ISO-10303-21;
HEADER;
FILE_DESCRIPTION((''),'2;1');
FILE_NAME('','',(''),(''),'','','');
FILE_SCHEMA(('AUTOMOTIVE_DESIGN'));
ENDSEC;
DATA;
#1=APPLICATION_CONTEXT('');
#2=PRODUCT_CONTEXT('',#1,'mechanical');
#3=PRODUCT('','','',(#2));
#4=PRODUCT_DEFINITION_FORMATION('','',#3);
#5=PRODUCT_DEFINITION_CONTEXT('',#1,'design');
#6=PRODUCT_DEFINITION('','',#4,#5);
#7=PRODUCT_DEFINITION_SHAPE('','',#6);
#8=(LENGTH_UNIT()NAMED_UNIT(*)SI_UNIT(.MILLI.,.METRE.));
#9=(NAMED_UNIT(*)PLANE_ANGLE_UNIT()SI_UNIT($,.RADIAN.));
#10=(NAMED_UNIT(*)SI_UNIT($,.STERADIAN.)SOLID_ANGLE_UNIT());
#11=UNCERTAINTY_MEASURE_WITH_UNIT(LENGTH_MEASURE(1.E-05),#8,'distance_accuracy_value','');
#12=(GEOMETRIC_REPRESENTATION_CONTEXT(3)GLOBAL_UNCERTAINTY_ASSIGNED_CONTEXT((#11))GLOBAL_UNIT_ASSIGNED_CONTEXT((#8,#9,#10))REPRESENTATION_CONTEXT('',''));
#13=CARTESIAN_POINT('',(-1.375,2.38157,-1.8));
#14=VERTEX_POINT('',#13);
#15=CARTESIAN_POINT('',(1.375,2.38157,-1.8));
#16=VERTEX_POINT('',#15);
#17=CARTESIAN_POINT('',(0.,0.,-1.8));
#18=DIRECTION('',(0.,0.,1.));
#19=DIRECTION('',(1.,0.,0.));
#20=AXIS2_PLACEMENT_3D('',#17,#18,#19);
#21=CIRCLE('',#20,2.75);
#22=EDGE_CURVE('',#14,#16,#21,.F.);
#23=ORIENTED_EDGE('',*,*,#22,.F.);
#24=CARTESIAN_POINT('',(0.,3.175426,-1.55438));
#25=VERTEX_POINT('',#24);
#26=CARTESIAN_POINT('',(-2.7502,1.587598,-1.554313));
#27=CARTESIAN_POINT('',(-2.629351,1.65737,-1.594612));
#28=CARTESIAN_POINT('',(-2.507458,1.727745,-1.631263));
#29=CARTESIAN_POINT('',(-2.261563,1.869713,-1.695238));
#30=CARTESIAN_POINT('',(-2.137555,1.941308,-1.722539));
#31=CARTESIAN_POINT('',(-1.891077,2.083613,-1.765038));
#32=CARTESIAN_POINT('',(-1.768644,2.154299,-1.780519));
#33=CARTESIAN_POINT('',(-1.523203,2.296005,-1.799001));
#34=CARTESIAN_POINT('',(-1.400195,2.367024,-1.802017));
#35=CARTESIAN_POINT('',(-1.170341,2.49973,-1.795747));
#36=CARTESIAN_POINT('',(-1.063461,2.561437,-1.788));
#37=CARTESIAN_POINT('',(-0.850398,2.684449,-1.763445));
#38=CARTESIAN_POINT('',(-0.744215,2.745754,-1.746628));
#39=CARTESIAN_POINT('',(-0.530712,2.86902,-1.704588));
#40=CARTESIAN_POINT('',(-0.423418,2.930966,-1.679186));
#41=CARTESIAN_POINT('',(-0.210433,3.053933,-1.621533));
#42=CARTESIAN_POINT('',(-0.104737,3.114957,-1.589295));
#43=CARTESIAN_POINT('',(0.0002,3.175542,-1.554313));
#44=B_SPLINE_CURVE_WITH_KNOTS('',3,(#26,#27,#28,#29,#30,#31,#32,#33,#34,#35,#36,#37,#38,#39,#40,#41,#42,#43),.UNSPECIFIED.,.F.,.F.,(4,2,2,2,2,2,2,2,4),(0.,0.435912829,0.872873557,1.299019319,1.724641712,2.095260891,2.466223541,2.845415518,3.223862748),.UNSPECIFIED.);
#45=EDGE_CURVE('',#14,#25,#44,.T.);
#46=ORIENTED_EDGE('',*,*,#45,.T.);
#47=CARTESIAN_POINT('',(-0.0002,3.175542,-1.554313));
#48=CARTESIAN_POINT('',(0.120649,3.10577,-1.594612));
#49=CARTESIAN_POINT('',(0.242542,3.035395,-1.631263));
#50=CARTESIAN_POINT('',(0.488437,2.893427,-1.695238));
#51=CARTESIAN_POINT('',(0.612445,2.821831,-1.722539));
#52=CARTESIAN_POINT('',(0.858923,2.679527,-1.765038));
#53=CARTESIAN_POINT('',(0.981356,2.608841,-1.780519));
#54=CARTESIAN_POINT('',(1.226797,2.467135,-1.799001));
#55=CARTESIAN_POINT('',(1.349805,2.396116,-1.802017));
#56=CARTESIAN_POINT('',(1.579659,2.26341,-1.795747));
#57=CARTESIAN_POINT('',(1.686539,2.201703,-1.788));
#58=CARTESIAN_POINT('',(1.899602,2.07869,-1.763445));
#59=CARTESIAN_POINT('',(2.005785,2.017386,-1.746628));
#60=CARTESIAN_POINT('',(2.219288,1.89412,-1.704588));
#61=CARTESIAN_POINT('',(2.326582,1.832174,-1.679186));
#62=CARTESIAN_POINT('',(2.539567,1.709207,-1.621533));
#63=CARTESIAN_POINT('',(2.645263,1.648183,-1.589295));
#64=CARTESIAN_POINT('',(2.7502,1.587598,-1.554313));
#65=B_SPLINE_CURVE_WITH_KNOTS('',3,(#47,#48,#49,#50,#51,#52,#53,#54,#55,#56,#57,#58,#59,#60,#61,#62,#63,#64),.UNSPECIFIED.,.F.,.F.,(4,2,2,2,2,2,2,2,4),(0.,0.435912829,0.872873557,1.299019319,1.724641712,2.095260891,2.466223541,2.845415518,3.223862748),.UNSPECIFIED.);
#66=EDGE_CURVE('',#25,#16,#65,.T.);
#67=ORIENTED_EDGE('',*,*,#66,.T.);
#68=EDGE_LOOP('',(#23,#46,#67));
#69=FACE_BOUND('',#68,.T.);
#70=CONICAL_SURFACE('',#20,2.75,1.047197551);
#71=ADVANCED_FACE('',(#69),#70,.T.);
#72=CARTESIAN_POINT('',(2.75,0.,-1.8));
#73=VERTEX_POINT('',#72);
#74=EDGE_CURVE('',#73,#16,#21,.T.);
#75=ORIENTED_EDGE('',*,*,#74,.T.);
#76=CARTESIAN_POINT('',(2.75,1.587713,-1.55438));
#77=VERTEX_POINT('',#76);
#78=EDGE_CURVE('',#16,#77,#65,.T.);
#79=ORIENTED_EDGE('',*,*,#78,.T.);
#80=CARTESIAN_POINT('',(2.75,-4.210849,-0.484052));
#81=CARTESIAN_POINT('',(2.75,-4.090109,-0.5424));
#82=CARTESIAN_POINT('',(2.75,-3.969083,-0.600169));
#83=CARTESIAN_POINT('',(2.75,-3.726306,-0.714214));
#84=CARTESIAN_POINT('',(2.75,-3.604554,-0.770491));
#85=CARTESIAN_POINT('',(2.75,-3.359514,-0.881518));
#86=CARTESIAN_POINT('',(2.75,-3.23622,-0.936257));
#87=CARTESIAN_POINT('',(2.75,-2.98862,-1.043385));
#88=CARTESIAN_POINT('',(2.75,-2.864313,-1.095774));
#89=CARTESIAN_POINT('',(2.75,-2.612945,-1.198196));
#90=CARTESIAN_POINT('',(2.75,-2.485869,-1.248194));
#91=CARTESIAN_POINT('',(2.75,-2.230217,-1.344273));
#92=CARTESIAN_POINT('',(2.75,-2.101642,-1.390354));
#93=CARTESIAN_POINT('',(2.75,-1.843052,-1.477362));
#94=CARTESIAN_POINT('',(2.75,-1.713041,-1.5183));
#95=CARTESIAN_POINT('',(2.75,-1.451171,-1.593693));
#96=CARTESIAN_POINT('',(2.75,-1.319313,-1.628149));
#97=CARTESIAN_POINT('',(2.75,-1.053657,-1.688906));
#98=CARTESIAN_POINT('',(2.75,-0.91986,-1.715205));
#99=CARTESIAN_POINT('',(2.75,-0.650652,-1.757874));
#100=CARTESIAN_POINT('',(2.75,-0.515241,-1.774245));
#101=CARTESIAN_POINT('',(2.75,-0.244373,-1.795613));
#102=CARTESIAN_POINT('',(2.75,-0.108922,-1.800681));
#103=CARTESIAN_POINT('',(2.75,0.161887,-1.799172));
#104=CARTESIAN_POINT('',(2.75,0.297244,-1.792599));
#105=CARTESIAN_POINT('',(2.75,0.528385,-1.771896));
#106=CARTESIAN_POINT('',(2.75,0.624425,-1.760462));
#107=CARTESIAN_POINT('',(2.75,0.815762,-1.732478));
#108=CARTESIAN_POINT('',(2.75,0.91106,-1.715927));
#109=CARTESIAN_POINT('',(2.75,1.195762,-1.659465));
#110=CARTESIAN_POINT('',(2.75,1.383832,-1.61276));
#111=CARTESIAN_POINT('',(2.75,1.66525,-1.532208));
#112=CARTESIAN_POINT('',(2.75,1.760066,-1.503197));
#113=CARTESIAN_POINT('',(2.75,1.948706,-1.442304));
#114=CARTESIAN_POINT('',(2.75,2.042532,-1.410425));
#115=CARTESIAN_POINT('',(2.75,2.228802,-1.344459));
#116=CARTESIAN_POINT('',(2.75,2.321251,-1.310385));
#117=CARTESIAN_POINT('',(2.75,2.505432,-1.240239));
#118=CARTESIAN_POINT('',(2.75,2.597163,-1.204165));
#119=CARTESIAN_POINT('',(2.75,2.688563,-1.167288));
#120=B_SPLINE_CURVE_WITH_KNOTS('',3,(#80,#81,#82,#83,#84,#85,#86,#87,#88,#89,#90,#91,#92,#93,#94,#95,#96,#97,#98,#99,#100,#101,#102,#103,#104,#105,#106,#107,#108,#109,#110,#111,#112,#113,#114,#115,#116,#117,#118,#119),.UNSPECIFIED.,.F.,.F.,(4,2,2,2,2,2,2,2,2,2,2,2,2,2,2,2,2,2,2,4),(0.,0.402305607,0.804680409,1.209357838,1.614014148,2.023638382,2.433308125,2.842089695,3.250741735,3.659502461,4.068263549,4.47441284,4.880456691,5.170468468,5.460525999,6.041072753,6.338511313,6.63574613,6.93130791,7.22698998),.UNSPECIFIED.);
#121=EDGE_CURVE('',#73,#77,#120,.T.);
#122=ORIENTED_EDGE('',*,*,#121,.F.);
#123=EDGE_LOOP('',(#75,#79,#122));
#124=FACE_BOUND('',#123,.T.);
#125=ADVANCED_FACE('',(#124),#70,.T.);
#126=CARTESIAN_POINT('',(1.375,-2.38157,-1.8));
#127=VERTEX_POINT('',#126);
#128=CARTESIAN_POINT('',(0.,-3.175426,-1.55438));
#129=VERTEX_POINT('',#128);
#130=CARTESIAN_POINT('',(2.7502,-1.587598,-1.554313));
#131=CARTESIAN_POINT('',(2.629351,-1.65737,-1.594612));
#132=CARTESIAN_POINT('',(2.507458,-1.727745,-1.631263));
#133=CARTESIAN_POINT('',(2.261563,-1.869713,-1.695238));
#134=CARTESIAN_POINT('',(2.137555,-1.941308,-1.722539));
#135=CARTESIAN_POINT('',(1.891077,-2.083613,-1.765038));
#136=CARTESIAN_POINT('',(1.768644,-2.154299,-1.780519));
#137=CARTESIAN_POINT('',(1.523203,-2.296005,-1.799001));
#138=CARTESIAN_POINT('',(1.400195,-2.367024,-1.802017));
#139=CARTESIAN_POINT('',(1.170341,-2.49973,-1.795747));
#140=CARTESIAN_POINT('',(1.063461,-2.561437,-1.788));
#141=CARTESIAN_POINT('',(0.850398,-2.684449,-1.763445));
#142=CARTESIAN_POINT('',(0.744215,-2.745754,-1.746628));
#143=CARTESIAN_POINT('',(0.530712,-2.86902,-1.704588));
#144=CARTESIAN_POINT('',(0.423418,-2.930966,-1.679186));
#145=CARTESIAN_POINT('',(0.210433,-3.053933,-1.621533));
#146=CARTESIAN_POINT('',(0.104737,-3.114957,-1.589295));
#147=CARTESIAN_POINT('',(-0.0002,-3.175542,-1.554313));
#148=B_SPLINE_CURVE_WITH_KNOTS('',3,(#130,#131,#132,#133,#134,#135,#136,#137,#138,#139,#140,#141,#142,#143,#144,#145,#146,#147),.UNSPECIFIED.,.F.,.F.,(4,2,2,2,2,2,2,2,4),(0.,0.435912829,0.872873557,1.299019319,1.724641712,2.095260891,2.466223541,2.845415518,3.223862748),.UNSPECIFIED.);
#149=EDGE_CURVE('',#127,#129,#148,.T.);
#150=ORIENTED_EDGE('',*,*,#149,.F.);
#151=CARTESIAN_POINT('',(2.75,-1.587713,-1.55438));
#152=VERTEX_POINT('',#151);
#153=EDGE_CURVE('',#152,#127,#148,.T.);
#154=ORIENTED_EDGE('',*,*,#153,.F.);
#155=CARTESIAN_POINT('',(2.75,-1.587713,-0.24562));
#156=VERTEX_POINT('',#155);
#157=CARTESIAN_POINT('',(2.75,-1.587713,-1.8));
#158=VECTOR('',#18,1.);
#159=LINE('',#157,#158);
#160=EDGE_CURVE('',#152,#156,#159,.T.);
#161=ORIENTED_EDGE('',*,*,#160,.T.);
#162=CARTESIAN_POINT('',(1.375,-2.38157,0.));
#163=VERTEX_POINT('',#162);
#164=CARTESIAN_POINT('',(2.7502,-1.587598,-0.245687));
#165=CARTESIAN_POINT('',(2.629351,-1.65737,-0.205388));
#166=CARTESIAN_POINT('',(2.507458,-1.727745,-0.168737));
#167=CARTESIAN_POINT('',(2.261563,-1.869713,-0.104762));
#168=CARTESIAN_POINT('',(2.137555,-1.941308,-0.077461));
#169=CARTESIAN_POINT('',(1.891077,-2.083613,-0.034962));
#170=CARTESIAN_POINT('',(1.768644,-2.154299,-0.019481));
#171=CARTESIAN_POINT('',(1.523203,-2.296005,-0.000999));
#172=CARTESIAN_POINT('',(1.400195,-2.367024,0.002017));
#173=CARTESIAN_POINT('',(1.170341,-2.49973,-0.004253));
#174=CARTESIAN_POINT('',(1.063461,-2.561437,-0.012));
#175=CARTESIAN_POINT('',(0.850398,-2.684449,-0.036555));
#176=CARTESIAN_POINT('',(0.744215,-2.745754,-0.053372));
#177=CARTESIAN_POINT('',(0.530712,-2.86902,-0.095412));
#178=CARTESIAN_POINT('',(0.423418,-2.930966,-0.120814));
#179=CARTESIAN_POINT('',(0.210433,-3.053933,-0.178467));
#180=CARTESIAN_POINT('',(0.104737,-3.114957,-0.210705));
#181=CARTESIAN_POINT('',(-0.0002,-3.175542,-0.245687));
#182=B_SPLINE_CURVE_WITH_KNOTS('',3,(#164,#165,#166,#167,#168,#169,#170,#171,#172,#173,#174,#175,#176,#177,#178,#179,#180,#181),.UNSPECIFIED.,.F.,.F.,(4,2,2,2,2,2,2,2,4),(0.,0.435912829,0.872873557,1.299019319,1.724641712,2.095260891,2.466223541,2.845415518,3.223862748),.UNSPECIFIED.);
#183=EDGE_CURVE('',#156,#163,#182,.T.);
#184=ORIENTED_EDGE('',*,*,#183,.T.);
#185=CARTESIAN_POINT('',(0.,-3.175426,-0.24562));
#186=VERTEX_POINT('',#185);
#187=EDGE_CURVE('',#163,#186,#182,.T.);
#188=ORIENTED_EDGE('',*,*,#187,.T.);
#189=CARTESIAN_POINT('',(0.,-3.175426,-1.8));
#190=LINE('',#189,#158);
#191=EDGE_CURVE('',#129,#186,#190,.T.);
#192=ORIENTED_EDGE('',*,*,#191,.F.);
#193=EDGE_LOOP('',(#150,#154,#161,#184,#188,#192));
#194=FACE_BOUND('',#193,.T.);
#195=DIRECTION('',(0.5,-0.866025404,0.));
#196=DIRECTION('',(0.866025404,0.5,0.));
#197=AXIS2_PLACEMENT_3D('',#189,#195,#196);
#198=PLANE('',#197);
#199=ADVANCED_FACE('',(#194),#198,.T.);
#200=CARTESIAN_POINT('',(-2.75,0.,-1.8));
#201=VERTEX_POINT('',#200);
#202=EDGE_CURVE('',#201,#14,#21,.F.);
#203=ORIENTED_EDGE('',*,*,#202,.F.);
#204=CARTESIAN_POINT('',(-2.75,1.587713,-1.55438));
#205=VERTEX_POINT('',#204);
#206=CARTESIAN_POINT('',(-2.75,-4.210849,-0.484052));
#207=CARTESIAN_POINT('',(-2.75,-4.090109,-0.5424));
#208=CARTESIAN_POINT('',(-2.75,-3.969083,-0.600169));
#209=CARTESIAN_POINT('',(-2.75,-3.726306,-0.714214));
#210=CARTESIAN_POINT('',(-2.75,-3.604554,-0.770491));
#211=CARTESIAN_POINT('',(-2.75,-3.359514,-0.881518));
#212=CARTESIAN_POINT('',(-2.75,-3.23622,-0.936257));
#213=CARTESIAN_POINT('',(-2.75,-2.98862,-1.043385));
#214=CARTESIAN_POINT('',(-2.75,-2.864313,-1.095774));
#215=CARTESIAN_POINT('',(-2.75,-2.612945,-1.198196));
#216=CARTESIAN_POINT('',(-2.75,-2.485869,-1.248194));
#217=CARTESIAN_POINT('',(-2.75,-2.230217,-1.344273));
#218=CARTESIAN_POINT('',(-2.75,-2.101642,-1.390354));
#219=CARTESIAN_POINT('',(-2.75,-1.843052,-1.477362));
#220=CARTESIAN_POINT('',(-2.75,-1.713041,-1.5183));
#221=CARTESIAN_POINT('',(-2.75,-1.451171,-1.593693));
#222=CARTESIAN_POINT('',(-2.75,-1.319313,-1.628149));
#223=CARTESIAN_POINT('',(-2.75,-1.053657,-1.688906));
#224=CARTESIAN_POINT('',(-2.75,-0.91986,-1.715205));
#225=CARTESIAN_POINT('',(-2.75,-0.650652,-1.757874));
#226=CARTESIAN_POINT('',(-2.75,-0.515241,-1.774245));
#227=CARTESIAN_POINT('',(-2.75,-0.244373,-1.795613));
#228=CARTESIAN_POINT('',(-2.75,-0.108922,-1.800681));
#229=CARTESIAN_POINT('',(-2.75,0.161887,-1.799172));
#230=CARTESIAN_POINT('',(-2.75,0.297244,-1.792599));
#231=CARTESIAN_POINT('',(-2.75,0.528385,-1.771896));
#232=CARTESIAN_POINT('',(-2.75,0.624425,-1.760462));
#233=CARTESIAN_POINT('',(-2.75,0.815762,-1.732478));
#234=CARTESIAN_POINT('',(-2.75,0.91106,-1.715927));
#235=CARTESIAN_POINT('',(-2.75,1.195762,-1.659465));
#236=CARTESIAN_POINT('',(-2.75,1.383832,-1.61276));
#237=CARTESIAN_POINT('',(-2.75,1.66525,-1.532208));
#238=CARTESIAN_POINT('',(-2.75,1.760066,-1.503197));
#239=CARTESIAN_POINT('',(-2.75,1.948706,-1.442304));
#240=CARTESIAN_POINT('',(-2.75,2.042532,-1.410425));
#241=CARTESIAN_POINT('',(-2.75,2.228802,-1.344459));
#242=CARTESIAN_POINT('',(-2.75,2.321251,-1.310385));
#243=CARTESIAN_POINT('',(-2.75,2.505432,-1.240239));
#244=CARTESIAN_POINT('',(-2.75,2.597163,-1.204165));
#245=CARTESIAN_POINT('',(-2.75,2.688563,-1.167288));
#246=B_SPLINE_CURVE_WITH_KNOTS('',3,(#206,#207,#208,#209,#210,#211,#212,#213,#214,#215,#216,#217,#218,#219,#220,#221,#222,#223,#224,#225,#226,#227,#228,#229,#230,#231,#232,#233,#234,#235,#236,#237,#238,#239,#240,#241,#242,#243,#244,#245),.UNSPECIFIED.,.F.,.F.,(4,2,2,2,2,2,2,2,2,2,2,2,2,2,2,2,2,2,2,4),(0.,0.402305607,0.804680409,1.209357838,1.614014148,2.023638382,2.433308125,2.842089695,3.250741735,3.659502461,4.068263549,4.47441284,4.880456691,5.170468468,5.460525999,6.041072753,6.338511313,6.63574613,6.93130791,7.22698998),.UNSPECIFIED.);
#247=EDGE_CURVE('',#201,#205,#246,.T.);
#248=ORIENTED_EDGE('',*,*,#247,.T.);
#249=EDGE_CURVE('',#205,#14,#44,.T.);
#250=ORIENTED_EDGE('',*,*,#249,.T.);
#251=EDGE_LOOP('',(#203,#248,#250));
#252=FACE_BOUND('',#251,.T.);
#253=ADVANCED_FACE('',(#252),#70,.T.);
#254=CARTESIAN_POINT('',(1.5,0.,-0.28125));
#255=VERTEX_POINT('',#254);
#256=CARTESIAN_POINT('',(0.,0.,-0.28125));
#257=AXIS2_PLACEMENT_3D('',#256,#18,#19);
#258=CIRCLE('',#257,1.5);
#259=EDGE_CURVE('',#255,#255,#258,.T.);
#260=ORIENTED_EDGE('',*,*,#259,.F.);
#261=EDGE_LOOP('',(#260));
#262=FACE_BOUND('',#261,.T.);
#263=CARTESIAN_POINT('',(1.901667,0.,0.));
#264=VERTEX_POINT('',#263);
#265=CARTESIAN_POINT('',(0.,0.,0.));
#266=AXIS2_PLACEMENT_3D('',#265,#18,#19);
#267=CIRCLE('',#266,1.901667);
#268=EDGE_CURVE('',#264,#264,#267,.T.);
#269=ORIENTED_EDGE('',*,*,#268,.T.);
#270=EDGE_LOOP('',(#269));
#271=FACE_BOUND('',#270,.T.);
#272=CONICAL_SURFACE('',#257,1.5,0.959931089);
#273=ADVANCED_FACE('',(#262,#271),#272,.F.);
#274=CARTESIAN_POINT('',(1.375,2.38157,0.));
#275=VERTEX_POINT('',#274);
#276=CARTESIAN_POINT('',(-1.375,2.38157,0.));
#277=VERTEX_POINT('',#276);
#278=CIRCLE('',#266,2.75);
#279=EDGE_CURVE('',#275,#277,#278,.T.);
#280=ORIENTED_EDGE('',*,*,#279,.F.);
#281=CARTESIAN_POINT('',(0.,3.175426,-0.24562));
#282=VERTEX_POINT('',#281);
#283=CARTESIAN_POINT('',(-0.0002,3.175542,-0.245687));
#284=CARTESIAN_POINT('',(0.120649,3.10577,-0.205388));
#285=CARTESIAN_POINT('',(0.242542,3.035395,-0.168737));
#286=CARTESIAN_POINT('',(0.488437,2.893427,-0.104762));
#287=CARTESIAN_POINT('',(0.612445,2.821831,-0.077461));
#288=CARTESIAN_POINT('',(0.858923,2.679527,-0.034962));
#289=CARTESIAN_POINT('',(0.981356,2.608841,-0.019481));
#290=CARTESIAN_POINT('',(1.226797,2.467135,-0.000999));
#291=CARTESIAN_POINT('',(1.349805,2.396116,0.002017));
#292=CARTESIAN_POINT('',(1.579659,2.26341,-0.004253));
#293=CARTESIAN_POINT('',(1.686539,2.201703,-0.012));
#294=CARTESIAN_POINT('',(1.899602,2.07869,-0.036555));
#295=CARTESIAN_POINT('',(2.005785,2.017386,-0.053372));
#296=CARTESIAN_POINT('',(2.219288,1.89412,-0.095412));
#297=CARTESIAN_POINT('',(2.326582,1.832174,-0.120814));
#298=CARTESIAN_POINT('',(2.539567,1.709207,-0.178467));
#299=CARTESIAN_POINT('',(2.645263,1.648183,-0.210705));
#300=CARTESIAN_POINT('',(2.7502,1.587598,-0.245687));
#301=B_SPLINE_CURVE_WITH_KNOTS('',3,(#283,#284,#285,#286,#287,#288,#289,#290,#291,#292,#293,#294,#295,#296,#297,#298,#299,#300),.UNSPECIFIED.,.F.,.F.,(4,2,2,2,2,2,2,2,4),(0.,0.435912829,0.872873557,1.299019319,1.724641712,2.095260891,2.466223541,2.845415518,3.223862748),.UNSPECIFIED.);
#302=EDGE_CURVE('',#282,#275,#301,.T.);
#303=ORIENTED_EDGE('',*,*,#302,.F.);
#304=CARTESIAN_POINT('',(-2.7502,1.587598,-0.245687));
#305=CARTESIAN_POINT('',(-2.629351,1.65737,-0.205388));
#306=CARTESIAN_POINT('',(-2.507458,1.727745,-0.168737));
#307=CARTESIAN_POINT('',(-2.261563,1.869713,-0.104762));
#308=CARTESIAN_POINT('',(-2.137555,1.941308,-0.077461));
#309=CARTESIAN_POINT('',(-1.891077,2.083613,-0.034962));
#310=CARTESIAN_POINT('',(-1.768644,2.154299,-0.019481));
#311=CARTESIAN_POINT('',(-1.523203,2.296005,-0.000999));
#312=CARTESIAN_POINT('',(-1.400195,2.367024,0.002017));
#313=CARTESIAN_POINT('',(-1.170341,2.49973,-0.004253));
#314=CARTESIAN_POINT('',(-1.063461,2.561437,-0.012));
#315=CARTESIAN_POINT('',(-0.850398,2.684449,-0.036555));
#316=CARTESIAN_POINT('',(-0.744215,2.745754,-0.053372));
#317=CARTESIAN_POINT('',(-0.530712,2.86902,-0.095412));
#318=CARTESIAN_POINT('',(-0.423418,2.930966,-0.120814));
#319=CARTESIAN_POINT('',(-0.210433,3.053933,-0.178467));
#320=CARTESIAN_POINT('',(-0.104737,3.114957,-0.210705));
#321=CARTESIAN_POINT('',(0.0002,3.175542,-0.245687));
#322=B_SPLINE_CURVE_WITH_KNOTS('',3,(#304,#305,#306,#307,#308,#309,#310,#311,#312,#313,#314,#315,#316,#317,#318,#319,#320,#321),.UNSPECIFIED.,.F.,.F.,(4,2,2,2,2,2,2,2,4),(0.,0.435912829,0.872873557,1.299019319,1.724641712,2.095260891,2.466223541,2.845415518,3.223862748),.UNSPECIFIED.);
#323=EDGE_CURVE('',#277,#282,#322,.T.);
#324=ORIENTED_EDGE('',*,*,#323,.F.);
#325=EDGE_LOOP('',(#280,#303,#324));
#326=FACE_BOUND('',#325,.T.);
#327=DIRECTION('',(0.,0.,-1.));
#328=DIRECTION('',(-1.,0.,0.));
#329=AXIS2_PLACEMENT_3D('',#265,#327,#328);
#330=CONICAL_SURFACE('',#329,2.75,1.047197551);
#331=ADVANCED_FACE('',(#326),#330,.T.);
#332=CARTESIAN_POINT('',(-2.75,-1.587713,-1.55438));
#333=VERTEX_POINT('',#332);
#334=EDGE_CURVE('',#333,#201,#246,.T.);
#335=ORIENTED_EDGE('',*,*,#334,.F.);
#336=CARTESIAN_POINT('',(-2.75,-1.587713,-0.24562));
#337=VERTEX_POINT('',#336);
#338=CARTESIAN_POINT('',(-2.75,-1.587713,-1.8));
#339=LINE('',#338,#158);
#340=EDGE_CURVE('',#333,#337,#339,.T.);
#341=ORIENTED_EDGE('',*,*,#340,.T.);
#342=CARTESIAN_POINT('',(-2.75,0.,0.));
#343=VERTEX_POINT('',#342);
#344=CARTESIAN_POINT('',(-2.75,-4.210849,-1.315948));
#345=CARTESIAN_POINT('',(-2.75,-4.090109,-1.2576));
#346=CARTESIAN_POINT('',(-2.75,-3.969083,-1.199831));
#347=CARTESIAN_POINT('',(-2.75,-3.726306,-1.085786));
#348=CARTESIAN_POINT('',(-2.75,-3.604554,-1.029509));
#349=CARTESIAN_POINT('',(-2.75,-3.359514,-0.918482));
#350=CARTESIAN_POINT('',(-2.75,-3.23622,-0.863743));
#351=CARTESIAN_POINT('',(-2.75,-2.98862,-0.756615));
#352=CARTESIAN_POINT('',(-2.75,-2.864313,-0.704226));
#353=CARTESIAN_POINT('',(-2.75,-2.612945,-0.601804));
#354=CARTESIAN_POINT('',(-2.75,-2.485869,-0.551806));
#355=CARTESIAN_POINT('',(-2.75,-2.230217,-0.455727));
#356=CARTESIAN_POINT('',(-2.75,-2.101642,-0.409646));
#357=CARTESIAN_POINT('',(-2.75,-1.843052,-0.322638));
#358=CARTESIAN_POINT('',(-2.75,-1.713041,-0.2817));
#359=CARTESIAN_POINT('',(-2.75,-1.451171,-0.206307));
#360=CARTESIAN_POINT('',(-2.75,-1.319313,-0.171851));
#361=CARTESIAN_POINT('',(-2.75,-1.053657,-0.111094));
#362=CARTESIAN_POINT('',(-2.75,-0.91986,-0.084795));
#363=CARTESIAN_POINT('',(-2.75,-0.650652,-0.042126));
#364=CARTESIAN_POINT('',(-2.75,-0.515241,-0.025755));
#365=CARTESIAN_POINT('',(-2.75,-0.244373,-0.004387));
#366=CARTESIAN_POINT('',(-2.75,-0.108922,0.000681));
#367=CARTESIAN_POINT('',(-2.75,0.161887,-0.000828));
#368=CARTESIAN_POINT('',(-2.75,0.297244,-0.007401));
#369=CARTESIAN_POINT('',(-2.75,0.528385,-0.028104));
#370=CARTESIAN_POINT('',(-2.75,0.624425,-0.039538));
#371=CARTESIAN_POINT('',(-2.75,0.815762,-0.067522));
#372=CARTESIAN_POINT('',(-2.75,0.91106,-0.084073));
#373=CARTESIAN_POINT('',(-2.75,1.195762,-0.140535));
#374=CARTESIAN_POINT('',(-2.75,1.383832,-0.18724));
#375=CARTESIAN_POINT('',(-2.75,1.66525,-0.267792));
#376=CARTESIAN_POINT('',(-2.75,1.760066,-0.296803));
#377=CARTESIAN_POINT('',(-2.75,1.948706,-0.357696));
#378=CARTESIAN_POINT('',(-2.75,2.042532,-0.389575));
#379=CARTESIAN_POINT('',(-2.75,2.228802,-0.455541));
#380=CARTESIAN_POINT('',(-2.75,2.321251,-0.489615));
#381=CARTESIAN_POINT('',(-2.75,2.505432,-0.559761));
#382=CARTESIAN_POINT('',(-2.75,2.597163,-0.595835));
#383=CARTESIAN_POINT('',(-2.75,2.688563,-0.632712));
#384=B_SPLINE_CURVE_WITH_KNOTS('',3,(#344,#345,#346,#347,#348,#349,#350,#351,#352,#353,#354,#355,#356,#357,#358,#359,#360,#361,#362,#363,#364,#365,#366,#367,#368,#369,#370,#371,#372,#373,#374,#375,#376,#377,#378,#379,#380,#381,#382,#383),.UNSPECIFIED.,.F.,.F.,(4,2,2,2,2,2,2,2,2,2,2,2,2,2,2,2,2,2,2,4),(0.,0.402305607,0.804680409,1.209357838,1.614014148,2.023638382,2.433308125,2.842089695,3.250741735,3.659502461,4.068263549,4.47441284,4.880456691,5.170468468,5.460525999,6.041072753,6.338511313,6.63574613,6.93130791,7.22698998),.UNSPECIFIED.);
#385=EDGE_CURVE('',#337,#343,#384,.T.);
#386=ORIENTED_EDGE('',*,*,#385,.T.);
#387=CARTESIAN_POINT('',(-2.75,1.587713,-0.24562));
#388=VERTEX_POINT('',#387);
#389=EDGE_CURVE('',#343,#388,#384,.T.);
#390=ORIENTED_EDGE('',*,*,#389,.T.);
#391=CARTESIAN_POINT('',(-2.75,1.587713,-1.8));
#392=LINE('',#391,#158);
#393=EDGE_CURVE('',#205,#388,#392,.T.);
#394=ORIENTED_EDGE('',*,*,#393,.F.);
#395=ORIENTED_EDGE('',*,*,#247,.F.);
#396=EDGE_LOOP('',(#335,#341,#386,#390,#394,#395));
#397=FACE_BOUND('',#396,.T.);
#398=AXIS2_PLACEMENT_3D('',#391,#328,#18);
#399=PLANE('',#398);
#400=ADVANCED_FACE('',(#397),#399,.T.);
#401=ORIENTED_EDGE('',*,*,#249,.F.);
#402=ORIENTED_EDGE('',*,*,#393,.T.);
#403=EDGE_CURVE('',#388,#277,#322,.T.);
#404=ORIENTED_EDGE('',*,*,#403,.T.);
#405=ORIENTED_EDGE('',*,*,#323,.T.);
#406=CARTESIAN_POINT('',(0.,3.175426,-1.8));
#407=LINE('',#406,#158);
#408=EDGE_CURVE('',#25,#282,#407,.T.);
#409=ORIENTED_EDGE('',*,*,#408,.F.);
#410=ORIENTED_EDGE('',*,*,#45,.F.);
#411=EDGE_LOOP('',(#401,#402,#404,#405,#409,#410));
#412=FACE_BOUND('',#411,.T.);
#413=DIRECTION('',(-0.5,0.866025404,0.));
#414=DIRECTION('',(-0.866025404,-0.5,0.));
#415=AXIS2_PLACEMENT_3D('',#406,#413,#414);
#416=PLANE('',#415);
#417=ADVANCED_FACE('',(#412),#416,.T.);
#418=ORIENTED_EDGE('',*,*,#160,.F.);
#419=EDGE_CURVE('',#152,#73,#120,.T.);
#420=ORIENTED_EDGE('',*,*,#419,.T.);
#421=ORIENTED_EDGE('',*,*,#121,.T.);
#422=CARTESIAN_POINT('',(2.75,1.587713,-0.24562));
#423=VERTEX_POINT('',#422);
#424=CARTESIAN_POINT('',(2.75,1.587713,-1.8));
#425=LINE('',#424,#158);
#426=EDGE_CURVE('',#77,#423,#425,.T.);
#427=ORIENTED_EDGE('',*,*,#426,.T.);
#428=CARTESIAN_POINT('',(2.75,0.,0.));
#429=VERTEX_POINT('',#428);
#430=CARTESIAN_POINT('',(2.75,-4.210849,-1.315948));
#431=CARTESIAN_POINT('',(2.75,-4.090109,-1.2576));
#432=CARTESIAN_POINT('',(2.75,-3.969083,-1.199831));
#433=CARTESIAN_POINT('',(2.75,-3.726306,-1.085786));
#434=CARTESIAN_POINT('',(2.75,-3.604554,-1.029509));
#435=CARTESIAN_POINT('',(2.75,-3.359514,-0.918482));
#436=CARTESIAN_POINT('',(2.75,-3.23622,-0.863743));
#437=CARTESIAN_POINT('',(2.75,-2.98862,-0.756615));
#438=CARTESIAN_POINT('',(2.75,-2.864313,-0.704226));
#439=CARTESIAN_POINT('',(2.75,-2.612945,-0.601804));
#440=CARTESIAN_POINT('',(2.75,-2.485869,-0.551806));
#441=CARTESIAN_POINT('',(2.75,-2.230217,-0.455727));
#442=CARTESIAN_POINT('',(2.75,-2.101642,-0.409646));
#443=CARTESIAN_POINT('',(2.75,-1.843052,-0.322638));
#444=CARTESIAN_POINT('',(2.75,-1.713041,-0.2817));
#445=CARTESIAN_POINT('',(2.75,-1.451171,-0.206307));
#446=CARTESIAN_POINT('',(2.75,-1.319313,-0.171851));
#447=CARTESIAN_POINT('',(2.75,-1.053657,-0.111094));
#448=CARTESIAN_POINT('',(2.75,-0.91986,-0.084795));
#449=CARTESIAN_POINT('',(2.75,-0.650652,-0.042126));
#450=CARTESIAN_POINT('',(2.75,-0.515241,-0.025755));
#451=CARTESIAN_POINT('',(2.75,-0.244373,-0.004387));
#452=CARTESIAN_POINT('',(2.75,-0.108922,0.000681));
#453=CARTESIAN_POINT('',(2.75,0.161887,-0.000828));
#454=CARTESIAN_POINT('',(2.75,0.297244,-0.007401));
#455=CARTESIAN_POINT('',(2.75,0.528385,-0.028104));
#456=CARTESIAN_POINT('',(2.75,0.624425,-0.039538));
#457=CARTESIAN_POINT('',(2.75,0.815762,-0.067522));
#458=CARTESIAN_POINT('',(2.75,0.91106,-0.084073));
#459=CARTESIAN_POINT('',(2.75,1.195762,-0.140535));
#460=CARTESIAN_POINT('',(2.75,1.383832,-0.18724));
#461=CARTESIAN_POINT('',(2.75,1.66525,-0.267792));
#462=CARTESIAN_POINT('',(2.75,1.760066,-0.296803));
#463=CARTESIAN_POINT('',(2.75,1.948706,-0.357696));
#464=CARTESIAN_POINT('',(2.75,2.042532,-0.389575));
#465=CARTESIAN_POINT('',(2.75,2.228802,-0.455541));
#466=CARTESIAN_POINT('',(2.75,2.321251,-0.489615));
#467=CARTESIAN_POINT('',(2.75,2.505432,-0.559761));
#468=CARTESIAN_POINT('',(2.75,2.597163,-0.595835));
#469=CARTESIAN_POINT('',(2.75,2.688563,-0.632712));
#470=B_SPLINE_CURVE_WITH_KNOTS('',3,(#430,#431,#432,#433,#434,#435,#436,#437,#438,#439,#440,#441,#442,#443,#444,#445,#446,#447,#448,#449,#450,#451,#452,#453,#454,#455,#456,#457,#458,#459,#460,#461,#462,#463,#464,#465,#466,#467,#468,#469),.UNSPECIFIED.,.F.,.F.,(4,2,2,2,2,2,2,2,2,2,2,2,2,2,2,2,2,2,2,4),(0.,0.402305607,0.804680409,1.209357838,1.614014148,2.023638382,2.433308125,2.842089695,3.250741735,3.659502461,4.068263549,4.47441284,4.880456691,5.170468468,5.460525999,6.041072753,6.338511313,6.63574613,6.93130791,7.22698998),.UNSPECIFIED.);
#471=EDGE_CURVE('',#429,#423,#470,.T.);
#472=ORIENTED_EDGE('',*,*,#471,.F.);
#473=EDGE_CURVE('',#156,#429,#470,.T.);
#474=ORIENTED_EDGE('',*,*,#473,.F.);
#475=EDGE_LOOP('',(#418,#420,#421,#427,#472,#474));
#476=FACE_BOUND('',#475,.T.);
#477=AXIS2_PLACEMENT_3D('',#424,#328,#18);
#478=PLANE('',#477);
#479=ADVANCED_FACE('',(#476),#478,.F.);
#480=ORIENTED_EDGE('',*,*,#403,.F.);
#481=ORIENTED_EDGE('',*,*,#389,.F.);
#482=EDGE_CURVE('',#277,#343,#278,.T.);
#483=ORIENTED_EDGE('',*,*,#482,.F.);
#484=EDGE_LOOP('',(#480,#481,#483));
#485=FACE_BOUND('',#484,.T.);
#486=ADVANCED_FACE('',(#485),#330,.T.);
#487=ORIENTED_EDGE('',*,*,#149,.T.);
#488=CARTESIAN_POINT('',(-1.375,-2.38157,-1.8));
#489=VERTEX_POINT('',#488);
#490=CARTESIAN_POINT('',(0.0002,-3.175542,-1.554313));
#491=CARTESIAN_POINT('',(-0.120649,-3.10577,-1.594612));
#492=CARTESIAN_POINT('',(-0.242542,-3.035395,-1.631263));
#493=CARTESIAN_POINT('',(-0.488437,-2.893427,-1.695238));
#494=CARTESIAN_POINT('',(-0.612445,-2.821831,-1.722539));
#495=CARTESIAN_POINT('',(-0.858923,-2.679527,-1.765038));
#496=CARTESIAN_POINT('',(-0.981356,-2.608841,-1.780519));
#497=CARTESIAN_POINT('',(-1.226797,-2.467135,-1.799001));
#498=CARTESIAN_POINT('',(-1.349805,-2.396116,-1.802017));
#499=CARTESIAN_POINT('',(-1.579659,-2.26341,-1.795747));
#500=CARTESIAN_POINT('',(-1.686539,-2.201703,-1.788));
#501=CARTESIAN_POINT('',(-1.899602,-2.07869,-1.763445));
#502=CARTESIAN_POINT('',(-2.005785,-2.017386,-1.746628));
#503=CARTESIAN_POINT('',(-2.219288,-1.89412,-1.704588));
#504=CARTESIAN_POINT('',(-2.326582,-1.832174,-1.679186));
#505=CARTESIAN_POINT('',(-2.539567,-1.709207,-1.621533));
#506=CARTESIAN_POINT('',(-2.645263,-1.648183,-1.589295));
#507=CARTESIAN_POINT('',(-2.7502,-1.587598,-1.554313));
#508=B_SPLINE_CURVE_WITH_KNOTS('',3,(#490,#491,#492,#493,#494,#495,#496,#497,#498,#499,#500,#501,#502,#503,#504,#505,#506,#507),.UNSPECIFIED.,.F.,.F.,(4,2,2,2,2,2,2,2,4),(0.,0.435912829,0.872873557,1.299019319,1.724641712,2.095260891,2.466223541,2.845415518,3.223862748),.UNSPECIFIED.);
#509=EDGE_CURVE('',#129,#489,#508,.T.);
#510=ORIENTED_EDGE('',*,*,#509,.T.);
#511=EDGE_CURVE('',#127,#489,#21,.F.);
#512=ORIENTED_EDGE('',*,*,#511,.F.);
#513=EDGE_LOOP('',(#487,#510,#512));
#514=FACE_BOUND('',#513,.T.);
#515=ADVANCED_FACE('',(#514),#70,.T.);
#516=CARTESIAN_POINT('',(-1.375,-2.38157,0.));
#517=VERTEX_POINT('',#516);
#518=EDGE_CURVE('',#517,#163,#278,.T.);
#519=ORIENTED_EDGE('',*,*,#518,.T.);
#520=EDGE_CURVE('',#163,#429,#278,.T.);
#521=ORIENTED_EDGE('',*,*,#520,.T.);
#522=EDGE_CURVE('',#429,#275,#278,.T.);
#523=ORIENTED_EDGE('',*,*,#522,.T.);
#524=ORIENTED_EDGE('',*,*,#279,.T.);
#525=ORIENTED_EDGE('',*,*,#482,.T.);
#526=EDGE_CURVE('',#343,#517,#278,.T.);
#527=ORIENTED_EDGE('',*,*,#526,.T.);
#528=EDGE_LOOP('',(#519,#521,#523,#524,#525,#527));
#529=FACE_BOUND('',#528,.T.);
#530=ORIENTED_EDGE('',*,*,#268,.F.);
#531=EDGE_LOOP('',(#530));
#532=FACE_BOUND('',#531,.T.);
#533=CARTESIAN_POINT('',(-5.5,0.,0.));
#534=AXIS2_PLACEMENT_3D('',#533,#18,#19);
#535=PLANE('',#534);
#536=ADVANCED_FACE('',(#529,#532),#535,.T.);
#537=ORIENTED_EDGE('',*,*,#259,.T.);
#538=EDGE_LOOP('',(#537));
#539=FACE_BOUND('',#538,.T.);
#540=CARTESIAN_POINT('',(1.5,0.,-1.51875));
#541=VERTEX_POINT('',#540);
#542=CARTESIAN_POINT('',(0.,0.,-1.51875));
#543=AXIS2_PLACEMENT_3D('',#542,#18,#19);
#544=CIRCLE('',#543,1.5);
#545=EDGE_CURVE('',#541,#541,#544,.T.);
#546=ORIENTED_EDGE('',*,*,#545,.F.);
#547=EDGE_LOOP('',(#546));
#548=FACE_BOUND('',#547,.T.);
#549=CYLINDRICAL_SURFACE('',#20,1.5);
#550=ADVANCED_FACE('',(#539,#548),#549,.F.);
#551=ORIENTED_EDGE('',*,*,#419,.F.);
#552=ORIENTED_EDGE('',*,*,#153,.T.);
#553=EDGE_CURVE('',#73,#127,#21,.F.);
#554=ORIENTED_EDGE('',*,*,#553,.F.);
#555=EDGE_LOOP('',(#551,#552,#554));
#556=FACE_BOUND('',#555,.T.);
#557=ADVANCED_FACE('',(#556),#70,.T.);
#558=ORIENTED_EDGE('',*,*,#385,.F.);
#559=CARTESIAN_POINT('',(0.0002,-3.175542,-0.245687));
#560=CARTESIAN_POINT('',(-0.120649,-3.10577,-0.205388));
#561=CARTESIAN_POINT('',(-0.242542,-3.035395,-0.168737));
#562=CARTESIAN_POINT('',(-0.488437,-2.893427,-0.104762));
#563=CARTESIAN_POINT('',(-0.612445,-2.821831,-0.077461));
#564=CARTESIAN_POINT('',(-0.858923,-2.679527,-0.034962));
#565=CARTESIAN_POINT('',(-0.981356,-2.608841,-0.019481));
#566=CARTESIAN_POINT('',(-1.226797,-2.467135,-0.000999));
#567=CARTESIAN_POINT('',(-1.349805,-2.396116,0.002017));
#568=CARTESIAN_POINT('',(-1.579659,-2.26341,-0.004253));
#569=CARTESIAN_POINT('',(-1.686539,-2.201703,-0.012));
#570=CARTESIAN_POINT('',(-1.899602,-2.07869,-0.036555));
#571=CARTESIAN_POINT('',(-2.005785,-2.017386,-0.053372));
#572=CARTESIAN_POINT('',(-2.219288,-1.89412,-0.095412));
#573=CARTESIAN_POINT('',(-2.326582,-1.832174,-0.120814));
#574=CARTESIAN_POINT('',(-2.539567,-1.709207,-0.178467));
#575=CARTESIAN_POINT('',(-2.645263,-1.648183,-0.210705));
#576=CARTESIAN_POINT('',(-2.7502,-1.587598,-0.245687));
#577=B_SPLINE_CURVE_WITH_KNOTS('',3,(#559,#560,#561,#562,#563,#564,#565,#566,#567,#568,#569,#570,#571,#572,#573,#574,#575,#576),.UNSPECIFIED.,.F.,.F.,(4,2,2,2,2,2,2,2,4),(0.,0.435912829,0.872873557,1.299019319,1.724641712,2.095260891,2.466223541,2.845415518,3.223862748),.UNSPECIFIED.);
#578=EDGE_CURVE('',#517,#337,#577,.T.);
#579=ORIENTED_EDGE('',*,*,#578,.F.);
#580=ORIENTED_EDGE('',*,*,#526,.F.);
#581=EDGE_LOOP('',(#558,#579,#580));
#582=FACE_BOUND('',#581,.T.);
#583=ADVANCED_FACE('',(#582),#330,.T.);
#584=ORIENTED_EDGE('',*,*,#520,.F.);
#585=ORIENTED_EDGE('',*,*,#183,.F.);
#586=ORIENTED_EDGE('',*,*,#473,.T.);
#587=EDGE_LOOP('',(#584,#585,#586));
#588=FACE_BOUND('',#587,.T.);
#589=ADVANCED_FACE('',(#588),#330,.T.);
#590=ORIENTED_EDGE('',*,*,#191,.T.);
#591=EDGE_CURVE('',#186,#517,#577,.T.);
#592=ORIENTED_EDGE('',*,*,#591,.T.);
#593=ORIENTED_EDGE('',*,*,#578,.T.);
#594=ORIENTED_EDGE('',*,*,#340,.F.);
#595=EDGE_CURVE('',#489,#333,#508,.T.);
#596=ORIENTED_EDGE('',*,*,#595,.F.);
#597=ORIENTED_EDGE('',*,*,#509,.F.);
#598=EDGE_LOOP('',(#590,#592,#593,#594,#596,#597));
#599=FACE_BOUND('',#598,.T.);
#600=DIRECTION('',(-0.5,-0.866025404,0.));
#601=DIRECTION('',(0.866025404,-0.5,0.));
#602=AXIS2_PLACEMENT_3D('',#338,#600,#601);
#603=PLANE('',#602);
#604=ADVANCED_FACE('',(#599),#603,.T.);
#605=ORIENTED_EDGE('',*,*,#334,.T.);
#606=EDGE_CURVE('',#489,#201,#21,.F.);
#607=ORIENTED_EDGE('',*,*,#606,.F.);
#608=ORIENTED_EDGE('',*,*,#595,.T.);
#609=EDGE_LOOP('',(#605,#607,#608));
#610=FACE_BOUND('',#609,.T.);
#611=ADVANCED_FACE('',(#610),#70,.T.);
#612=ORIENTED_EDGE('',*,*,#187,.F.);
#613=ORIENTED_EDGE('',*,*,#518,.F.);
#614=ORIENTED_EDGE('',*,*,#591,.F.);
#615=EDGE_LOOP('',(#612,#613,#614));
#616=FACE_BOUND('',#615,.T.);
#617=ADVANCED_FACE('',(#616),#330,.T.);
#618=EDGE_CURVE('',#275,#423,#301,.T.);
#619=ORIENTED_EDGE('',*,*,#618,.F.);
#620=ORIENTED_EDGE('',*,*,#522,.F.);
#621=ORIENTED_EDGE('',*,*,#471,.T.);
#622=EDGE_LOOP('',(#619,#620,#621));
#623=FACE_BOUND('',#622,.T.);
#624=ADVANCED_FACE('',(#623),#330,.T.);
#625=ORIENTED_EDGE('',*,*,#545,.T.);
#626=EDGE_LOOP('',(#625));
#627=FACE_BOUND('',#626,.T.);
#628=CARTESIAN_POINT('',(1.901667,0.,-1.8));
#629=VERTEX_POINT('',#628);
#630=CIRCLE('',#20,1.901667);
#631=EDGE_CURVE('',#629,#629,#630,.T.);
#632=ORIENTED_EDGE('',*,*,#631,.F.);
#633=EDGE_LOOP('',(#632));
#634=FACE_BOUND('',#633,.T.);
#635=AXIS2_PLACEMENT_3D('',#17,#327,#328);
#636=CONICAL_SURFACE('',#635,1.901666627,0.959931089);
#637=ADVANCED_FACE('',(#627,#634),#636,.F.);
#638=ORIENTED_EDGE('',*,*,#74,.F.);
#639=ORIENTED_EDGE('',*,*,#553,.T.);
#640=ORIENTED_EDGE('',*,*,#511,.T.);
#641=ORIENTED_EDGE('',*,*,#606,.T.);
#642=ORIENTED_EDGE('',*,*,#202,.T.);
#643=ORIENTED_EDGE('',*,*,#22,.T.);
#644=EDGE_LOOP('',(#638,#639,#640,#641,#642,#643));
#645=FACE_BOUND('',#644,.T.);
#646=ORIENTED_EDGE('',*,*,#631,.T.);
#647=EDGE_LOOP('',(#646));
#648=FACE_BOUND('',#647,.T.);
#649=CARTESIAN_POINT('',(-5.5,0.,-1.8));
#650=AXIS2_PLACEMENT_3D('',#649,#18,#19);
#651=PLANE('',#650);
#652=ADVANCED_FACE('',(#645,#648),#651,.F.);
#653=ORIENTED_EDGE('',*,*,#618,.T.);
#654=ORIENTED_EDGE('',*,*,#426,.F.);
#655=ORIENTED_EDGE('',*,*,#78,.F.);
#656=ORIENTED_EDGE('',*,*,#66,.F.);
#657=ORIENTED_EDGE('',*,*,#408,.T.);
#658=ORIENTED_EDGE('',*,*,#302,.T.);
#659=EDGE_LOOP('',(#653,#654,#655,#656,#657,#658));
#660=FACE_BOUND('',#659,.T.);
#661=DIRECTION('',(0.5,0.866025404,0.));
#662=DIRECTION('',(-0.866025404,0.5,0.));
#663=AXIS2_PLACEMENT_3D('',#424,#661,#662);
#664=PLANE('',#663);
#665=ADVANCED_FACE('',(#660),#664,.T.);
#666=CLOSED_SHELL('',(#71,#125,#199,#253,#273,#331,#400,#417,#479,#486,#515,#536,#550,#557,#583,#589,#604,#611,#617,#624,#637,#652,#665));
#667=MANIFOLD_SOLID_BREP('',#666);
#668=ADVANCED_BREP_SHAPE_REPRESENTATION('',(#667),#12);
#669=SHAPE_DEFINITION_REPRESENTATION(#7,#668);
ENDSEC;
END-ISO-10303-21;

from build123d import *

# Parameters (mm, degrees)
BASENUTSKE_R  = 1.5
BASENUT_DEPTH = 1.8


with BuildPart() as part:
    # BaseNutSke → BaseNut (new body)
    with BuildSketch(Plane.XY):
        Polygon((2.75, 1.58771324), (2.75, -1.58771324), (0, -3.175426481), (-2.75, -1.58771324), (-2.75, 1.58771324), (0, 3.175426481), align=None)
        Circle(BASENUTSKE_R, mode=Mode.SUBTRACT)
    extrude(amount=-BASENUT_DEPTH)

    # Sketch3 → Double-Chamfer (revolve, cut)
    with BuildSketch(Plane(origin=(0, 0, 0), x_dir=(0, 0, -1), z_dir=(1, 0, 0))):
        Polygon((1.8, 2.75), (1.554379907, 3.175426481), (1.554379907, 13.175426481), (11.8, 13.175426481), (11.8, 2.75), align=None)
        Polygon((0.245620093, 13.175426481), (-10, 13.175426481), (-10, 2.75), (0, 2.75), (0.245620093, 3.175426481), align=None)
    revolve(axis=Axis((0, 0, 0), (0, 0, -1)), mode=Mode.SUBTRACT)

    # Sketch5 → EndChamfer (revolve, cut)
    with BuildSketch(Plane(origin=(0, 0, 0), x_dir=(0, 0, -1), z_dir=(1, 0, 0)), mode=Mode.PRIVATE) as endchamfer_sk:
        Polygon((0, 1.901666627), (0.28125, 1.5), (0, 1.5), align=None)
        Polygon((1.8, 1.901666627), (1.8, 1.5), (1.51875, 1.5), align=None)
    revolve(endchamfer_sk.sketch.rotate(Axis((0, 0, 0), (0, 0, -1)), 90), axis=Axis((0, 0, 0), (0, 0, -1)), mode=Mode.SUBTRACT)


solid = part.part
